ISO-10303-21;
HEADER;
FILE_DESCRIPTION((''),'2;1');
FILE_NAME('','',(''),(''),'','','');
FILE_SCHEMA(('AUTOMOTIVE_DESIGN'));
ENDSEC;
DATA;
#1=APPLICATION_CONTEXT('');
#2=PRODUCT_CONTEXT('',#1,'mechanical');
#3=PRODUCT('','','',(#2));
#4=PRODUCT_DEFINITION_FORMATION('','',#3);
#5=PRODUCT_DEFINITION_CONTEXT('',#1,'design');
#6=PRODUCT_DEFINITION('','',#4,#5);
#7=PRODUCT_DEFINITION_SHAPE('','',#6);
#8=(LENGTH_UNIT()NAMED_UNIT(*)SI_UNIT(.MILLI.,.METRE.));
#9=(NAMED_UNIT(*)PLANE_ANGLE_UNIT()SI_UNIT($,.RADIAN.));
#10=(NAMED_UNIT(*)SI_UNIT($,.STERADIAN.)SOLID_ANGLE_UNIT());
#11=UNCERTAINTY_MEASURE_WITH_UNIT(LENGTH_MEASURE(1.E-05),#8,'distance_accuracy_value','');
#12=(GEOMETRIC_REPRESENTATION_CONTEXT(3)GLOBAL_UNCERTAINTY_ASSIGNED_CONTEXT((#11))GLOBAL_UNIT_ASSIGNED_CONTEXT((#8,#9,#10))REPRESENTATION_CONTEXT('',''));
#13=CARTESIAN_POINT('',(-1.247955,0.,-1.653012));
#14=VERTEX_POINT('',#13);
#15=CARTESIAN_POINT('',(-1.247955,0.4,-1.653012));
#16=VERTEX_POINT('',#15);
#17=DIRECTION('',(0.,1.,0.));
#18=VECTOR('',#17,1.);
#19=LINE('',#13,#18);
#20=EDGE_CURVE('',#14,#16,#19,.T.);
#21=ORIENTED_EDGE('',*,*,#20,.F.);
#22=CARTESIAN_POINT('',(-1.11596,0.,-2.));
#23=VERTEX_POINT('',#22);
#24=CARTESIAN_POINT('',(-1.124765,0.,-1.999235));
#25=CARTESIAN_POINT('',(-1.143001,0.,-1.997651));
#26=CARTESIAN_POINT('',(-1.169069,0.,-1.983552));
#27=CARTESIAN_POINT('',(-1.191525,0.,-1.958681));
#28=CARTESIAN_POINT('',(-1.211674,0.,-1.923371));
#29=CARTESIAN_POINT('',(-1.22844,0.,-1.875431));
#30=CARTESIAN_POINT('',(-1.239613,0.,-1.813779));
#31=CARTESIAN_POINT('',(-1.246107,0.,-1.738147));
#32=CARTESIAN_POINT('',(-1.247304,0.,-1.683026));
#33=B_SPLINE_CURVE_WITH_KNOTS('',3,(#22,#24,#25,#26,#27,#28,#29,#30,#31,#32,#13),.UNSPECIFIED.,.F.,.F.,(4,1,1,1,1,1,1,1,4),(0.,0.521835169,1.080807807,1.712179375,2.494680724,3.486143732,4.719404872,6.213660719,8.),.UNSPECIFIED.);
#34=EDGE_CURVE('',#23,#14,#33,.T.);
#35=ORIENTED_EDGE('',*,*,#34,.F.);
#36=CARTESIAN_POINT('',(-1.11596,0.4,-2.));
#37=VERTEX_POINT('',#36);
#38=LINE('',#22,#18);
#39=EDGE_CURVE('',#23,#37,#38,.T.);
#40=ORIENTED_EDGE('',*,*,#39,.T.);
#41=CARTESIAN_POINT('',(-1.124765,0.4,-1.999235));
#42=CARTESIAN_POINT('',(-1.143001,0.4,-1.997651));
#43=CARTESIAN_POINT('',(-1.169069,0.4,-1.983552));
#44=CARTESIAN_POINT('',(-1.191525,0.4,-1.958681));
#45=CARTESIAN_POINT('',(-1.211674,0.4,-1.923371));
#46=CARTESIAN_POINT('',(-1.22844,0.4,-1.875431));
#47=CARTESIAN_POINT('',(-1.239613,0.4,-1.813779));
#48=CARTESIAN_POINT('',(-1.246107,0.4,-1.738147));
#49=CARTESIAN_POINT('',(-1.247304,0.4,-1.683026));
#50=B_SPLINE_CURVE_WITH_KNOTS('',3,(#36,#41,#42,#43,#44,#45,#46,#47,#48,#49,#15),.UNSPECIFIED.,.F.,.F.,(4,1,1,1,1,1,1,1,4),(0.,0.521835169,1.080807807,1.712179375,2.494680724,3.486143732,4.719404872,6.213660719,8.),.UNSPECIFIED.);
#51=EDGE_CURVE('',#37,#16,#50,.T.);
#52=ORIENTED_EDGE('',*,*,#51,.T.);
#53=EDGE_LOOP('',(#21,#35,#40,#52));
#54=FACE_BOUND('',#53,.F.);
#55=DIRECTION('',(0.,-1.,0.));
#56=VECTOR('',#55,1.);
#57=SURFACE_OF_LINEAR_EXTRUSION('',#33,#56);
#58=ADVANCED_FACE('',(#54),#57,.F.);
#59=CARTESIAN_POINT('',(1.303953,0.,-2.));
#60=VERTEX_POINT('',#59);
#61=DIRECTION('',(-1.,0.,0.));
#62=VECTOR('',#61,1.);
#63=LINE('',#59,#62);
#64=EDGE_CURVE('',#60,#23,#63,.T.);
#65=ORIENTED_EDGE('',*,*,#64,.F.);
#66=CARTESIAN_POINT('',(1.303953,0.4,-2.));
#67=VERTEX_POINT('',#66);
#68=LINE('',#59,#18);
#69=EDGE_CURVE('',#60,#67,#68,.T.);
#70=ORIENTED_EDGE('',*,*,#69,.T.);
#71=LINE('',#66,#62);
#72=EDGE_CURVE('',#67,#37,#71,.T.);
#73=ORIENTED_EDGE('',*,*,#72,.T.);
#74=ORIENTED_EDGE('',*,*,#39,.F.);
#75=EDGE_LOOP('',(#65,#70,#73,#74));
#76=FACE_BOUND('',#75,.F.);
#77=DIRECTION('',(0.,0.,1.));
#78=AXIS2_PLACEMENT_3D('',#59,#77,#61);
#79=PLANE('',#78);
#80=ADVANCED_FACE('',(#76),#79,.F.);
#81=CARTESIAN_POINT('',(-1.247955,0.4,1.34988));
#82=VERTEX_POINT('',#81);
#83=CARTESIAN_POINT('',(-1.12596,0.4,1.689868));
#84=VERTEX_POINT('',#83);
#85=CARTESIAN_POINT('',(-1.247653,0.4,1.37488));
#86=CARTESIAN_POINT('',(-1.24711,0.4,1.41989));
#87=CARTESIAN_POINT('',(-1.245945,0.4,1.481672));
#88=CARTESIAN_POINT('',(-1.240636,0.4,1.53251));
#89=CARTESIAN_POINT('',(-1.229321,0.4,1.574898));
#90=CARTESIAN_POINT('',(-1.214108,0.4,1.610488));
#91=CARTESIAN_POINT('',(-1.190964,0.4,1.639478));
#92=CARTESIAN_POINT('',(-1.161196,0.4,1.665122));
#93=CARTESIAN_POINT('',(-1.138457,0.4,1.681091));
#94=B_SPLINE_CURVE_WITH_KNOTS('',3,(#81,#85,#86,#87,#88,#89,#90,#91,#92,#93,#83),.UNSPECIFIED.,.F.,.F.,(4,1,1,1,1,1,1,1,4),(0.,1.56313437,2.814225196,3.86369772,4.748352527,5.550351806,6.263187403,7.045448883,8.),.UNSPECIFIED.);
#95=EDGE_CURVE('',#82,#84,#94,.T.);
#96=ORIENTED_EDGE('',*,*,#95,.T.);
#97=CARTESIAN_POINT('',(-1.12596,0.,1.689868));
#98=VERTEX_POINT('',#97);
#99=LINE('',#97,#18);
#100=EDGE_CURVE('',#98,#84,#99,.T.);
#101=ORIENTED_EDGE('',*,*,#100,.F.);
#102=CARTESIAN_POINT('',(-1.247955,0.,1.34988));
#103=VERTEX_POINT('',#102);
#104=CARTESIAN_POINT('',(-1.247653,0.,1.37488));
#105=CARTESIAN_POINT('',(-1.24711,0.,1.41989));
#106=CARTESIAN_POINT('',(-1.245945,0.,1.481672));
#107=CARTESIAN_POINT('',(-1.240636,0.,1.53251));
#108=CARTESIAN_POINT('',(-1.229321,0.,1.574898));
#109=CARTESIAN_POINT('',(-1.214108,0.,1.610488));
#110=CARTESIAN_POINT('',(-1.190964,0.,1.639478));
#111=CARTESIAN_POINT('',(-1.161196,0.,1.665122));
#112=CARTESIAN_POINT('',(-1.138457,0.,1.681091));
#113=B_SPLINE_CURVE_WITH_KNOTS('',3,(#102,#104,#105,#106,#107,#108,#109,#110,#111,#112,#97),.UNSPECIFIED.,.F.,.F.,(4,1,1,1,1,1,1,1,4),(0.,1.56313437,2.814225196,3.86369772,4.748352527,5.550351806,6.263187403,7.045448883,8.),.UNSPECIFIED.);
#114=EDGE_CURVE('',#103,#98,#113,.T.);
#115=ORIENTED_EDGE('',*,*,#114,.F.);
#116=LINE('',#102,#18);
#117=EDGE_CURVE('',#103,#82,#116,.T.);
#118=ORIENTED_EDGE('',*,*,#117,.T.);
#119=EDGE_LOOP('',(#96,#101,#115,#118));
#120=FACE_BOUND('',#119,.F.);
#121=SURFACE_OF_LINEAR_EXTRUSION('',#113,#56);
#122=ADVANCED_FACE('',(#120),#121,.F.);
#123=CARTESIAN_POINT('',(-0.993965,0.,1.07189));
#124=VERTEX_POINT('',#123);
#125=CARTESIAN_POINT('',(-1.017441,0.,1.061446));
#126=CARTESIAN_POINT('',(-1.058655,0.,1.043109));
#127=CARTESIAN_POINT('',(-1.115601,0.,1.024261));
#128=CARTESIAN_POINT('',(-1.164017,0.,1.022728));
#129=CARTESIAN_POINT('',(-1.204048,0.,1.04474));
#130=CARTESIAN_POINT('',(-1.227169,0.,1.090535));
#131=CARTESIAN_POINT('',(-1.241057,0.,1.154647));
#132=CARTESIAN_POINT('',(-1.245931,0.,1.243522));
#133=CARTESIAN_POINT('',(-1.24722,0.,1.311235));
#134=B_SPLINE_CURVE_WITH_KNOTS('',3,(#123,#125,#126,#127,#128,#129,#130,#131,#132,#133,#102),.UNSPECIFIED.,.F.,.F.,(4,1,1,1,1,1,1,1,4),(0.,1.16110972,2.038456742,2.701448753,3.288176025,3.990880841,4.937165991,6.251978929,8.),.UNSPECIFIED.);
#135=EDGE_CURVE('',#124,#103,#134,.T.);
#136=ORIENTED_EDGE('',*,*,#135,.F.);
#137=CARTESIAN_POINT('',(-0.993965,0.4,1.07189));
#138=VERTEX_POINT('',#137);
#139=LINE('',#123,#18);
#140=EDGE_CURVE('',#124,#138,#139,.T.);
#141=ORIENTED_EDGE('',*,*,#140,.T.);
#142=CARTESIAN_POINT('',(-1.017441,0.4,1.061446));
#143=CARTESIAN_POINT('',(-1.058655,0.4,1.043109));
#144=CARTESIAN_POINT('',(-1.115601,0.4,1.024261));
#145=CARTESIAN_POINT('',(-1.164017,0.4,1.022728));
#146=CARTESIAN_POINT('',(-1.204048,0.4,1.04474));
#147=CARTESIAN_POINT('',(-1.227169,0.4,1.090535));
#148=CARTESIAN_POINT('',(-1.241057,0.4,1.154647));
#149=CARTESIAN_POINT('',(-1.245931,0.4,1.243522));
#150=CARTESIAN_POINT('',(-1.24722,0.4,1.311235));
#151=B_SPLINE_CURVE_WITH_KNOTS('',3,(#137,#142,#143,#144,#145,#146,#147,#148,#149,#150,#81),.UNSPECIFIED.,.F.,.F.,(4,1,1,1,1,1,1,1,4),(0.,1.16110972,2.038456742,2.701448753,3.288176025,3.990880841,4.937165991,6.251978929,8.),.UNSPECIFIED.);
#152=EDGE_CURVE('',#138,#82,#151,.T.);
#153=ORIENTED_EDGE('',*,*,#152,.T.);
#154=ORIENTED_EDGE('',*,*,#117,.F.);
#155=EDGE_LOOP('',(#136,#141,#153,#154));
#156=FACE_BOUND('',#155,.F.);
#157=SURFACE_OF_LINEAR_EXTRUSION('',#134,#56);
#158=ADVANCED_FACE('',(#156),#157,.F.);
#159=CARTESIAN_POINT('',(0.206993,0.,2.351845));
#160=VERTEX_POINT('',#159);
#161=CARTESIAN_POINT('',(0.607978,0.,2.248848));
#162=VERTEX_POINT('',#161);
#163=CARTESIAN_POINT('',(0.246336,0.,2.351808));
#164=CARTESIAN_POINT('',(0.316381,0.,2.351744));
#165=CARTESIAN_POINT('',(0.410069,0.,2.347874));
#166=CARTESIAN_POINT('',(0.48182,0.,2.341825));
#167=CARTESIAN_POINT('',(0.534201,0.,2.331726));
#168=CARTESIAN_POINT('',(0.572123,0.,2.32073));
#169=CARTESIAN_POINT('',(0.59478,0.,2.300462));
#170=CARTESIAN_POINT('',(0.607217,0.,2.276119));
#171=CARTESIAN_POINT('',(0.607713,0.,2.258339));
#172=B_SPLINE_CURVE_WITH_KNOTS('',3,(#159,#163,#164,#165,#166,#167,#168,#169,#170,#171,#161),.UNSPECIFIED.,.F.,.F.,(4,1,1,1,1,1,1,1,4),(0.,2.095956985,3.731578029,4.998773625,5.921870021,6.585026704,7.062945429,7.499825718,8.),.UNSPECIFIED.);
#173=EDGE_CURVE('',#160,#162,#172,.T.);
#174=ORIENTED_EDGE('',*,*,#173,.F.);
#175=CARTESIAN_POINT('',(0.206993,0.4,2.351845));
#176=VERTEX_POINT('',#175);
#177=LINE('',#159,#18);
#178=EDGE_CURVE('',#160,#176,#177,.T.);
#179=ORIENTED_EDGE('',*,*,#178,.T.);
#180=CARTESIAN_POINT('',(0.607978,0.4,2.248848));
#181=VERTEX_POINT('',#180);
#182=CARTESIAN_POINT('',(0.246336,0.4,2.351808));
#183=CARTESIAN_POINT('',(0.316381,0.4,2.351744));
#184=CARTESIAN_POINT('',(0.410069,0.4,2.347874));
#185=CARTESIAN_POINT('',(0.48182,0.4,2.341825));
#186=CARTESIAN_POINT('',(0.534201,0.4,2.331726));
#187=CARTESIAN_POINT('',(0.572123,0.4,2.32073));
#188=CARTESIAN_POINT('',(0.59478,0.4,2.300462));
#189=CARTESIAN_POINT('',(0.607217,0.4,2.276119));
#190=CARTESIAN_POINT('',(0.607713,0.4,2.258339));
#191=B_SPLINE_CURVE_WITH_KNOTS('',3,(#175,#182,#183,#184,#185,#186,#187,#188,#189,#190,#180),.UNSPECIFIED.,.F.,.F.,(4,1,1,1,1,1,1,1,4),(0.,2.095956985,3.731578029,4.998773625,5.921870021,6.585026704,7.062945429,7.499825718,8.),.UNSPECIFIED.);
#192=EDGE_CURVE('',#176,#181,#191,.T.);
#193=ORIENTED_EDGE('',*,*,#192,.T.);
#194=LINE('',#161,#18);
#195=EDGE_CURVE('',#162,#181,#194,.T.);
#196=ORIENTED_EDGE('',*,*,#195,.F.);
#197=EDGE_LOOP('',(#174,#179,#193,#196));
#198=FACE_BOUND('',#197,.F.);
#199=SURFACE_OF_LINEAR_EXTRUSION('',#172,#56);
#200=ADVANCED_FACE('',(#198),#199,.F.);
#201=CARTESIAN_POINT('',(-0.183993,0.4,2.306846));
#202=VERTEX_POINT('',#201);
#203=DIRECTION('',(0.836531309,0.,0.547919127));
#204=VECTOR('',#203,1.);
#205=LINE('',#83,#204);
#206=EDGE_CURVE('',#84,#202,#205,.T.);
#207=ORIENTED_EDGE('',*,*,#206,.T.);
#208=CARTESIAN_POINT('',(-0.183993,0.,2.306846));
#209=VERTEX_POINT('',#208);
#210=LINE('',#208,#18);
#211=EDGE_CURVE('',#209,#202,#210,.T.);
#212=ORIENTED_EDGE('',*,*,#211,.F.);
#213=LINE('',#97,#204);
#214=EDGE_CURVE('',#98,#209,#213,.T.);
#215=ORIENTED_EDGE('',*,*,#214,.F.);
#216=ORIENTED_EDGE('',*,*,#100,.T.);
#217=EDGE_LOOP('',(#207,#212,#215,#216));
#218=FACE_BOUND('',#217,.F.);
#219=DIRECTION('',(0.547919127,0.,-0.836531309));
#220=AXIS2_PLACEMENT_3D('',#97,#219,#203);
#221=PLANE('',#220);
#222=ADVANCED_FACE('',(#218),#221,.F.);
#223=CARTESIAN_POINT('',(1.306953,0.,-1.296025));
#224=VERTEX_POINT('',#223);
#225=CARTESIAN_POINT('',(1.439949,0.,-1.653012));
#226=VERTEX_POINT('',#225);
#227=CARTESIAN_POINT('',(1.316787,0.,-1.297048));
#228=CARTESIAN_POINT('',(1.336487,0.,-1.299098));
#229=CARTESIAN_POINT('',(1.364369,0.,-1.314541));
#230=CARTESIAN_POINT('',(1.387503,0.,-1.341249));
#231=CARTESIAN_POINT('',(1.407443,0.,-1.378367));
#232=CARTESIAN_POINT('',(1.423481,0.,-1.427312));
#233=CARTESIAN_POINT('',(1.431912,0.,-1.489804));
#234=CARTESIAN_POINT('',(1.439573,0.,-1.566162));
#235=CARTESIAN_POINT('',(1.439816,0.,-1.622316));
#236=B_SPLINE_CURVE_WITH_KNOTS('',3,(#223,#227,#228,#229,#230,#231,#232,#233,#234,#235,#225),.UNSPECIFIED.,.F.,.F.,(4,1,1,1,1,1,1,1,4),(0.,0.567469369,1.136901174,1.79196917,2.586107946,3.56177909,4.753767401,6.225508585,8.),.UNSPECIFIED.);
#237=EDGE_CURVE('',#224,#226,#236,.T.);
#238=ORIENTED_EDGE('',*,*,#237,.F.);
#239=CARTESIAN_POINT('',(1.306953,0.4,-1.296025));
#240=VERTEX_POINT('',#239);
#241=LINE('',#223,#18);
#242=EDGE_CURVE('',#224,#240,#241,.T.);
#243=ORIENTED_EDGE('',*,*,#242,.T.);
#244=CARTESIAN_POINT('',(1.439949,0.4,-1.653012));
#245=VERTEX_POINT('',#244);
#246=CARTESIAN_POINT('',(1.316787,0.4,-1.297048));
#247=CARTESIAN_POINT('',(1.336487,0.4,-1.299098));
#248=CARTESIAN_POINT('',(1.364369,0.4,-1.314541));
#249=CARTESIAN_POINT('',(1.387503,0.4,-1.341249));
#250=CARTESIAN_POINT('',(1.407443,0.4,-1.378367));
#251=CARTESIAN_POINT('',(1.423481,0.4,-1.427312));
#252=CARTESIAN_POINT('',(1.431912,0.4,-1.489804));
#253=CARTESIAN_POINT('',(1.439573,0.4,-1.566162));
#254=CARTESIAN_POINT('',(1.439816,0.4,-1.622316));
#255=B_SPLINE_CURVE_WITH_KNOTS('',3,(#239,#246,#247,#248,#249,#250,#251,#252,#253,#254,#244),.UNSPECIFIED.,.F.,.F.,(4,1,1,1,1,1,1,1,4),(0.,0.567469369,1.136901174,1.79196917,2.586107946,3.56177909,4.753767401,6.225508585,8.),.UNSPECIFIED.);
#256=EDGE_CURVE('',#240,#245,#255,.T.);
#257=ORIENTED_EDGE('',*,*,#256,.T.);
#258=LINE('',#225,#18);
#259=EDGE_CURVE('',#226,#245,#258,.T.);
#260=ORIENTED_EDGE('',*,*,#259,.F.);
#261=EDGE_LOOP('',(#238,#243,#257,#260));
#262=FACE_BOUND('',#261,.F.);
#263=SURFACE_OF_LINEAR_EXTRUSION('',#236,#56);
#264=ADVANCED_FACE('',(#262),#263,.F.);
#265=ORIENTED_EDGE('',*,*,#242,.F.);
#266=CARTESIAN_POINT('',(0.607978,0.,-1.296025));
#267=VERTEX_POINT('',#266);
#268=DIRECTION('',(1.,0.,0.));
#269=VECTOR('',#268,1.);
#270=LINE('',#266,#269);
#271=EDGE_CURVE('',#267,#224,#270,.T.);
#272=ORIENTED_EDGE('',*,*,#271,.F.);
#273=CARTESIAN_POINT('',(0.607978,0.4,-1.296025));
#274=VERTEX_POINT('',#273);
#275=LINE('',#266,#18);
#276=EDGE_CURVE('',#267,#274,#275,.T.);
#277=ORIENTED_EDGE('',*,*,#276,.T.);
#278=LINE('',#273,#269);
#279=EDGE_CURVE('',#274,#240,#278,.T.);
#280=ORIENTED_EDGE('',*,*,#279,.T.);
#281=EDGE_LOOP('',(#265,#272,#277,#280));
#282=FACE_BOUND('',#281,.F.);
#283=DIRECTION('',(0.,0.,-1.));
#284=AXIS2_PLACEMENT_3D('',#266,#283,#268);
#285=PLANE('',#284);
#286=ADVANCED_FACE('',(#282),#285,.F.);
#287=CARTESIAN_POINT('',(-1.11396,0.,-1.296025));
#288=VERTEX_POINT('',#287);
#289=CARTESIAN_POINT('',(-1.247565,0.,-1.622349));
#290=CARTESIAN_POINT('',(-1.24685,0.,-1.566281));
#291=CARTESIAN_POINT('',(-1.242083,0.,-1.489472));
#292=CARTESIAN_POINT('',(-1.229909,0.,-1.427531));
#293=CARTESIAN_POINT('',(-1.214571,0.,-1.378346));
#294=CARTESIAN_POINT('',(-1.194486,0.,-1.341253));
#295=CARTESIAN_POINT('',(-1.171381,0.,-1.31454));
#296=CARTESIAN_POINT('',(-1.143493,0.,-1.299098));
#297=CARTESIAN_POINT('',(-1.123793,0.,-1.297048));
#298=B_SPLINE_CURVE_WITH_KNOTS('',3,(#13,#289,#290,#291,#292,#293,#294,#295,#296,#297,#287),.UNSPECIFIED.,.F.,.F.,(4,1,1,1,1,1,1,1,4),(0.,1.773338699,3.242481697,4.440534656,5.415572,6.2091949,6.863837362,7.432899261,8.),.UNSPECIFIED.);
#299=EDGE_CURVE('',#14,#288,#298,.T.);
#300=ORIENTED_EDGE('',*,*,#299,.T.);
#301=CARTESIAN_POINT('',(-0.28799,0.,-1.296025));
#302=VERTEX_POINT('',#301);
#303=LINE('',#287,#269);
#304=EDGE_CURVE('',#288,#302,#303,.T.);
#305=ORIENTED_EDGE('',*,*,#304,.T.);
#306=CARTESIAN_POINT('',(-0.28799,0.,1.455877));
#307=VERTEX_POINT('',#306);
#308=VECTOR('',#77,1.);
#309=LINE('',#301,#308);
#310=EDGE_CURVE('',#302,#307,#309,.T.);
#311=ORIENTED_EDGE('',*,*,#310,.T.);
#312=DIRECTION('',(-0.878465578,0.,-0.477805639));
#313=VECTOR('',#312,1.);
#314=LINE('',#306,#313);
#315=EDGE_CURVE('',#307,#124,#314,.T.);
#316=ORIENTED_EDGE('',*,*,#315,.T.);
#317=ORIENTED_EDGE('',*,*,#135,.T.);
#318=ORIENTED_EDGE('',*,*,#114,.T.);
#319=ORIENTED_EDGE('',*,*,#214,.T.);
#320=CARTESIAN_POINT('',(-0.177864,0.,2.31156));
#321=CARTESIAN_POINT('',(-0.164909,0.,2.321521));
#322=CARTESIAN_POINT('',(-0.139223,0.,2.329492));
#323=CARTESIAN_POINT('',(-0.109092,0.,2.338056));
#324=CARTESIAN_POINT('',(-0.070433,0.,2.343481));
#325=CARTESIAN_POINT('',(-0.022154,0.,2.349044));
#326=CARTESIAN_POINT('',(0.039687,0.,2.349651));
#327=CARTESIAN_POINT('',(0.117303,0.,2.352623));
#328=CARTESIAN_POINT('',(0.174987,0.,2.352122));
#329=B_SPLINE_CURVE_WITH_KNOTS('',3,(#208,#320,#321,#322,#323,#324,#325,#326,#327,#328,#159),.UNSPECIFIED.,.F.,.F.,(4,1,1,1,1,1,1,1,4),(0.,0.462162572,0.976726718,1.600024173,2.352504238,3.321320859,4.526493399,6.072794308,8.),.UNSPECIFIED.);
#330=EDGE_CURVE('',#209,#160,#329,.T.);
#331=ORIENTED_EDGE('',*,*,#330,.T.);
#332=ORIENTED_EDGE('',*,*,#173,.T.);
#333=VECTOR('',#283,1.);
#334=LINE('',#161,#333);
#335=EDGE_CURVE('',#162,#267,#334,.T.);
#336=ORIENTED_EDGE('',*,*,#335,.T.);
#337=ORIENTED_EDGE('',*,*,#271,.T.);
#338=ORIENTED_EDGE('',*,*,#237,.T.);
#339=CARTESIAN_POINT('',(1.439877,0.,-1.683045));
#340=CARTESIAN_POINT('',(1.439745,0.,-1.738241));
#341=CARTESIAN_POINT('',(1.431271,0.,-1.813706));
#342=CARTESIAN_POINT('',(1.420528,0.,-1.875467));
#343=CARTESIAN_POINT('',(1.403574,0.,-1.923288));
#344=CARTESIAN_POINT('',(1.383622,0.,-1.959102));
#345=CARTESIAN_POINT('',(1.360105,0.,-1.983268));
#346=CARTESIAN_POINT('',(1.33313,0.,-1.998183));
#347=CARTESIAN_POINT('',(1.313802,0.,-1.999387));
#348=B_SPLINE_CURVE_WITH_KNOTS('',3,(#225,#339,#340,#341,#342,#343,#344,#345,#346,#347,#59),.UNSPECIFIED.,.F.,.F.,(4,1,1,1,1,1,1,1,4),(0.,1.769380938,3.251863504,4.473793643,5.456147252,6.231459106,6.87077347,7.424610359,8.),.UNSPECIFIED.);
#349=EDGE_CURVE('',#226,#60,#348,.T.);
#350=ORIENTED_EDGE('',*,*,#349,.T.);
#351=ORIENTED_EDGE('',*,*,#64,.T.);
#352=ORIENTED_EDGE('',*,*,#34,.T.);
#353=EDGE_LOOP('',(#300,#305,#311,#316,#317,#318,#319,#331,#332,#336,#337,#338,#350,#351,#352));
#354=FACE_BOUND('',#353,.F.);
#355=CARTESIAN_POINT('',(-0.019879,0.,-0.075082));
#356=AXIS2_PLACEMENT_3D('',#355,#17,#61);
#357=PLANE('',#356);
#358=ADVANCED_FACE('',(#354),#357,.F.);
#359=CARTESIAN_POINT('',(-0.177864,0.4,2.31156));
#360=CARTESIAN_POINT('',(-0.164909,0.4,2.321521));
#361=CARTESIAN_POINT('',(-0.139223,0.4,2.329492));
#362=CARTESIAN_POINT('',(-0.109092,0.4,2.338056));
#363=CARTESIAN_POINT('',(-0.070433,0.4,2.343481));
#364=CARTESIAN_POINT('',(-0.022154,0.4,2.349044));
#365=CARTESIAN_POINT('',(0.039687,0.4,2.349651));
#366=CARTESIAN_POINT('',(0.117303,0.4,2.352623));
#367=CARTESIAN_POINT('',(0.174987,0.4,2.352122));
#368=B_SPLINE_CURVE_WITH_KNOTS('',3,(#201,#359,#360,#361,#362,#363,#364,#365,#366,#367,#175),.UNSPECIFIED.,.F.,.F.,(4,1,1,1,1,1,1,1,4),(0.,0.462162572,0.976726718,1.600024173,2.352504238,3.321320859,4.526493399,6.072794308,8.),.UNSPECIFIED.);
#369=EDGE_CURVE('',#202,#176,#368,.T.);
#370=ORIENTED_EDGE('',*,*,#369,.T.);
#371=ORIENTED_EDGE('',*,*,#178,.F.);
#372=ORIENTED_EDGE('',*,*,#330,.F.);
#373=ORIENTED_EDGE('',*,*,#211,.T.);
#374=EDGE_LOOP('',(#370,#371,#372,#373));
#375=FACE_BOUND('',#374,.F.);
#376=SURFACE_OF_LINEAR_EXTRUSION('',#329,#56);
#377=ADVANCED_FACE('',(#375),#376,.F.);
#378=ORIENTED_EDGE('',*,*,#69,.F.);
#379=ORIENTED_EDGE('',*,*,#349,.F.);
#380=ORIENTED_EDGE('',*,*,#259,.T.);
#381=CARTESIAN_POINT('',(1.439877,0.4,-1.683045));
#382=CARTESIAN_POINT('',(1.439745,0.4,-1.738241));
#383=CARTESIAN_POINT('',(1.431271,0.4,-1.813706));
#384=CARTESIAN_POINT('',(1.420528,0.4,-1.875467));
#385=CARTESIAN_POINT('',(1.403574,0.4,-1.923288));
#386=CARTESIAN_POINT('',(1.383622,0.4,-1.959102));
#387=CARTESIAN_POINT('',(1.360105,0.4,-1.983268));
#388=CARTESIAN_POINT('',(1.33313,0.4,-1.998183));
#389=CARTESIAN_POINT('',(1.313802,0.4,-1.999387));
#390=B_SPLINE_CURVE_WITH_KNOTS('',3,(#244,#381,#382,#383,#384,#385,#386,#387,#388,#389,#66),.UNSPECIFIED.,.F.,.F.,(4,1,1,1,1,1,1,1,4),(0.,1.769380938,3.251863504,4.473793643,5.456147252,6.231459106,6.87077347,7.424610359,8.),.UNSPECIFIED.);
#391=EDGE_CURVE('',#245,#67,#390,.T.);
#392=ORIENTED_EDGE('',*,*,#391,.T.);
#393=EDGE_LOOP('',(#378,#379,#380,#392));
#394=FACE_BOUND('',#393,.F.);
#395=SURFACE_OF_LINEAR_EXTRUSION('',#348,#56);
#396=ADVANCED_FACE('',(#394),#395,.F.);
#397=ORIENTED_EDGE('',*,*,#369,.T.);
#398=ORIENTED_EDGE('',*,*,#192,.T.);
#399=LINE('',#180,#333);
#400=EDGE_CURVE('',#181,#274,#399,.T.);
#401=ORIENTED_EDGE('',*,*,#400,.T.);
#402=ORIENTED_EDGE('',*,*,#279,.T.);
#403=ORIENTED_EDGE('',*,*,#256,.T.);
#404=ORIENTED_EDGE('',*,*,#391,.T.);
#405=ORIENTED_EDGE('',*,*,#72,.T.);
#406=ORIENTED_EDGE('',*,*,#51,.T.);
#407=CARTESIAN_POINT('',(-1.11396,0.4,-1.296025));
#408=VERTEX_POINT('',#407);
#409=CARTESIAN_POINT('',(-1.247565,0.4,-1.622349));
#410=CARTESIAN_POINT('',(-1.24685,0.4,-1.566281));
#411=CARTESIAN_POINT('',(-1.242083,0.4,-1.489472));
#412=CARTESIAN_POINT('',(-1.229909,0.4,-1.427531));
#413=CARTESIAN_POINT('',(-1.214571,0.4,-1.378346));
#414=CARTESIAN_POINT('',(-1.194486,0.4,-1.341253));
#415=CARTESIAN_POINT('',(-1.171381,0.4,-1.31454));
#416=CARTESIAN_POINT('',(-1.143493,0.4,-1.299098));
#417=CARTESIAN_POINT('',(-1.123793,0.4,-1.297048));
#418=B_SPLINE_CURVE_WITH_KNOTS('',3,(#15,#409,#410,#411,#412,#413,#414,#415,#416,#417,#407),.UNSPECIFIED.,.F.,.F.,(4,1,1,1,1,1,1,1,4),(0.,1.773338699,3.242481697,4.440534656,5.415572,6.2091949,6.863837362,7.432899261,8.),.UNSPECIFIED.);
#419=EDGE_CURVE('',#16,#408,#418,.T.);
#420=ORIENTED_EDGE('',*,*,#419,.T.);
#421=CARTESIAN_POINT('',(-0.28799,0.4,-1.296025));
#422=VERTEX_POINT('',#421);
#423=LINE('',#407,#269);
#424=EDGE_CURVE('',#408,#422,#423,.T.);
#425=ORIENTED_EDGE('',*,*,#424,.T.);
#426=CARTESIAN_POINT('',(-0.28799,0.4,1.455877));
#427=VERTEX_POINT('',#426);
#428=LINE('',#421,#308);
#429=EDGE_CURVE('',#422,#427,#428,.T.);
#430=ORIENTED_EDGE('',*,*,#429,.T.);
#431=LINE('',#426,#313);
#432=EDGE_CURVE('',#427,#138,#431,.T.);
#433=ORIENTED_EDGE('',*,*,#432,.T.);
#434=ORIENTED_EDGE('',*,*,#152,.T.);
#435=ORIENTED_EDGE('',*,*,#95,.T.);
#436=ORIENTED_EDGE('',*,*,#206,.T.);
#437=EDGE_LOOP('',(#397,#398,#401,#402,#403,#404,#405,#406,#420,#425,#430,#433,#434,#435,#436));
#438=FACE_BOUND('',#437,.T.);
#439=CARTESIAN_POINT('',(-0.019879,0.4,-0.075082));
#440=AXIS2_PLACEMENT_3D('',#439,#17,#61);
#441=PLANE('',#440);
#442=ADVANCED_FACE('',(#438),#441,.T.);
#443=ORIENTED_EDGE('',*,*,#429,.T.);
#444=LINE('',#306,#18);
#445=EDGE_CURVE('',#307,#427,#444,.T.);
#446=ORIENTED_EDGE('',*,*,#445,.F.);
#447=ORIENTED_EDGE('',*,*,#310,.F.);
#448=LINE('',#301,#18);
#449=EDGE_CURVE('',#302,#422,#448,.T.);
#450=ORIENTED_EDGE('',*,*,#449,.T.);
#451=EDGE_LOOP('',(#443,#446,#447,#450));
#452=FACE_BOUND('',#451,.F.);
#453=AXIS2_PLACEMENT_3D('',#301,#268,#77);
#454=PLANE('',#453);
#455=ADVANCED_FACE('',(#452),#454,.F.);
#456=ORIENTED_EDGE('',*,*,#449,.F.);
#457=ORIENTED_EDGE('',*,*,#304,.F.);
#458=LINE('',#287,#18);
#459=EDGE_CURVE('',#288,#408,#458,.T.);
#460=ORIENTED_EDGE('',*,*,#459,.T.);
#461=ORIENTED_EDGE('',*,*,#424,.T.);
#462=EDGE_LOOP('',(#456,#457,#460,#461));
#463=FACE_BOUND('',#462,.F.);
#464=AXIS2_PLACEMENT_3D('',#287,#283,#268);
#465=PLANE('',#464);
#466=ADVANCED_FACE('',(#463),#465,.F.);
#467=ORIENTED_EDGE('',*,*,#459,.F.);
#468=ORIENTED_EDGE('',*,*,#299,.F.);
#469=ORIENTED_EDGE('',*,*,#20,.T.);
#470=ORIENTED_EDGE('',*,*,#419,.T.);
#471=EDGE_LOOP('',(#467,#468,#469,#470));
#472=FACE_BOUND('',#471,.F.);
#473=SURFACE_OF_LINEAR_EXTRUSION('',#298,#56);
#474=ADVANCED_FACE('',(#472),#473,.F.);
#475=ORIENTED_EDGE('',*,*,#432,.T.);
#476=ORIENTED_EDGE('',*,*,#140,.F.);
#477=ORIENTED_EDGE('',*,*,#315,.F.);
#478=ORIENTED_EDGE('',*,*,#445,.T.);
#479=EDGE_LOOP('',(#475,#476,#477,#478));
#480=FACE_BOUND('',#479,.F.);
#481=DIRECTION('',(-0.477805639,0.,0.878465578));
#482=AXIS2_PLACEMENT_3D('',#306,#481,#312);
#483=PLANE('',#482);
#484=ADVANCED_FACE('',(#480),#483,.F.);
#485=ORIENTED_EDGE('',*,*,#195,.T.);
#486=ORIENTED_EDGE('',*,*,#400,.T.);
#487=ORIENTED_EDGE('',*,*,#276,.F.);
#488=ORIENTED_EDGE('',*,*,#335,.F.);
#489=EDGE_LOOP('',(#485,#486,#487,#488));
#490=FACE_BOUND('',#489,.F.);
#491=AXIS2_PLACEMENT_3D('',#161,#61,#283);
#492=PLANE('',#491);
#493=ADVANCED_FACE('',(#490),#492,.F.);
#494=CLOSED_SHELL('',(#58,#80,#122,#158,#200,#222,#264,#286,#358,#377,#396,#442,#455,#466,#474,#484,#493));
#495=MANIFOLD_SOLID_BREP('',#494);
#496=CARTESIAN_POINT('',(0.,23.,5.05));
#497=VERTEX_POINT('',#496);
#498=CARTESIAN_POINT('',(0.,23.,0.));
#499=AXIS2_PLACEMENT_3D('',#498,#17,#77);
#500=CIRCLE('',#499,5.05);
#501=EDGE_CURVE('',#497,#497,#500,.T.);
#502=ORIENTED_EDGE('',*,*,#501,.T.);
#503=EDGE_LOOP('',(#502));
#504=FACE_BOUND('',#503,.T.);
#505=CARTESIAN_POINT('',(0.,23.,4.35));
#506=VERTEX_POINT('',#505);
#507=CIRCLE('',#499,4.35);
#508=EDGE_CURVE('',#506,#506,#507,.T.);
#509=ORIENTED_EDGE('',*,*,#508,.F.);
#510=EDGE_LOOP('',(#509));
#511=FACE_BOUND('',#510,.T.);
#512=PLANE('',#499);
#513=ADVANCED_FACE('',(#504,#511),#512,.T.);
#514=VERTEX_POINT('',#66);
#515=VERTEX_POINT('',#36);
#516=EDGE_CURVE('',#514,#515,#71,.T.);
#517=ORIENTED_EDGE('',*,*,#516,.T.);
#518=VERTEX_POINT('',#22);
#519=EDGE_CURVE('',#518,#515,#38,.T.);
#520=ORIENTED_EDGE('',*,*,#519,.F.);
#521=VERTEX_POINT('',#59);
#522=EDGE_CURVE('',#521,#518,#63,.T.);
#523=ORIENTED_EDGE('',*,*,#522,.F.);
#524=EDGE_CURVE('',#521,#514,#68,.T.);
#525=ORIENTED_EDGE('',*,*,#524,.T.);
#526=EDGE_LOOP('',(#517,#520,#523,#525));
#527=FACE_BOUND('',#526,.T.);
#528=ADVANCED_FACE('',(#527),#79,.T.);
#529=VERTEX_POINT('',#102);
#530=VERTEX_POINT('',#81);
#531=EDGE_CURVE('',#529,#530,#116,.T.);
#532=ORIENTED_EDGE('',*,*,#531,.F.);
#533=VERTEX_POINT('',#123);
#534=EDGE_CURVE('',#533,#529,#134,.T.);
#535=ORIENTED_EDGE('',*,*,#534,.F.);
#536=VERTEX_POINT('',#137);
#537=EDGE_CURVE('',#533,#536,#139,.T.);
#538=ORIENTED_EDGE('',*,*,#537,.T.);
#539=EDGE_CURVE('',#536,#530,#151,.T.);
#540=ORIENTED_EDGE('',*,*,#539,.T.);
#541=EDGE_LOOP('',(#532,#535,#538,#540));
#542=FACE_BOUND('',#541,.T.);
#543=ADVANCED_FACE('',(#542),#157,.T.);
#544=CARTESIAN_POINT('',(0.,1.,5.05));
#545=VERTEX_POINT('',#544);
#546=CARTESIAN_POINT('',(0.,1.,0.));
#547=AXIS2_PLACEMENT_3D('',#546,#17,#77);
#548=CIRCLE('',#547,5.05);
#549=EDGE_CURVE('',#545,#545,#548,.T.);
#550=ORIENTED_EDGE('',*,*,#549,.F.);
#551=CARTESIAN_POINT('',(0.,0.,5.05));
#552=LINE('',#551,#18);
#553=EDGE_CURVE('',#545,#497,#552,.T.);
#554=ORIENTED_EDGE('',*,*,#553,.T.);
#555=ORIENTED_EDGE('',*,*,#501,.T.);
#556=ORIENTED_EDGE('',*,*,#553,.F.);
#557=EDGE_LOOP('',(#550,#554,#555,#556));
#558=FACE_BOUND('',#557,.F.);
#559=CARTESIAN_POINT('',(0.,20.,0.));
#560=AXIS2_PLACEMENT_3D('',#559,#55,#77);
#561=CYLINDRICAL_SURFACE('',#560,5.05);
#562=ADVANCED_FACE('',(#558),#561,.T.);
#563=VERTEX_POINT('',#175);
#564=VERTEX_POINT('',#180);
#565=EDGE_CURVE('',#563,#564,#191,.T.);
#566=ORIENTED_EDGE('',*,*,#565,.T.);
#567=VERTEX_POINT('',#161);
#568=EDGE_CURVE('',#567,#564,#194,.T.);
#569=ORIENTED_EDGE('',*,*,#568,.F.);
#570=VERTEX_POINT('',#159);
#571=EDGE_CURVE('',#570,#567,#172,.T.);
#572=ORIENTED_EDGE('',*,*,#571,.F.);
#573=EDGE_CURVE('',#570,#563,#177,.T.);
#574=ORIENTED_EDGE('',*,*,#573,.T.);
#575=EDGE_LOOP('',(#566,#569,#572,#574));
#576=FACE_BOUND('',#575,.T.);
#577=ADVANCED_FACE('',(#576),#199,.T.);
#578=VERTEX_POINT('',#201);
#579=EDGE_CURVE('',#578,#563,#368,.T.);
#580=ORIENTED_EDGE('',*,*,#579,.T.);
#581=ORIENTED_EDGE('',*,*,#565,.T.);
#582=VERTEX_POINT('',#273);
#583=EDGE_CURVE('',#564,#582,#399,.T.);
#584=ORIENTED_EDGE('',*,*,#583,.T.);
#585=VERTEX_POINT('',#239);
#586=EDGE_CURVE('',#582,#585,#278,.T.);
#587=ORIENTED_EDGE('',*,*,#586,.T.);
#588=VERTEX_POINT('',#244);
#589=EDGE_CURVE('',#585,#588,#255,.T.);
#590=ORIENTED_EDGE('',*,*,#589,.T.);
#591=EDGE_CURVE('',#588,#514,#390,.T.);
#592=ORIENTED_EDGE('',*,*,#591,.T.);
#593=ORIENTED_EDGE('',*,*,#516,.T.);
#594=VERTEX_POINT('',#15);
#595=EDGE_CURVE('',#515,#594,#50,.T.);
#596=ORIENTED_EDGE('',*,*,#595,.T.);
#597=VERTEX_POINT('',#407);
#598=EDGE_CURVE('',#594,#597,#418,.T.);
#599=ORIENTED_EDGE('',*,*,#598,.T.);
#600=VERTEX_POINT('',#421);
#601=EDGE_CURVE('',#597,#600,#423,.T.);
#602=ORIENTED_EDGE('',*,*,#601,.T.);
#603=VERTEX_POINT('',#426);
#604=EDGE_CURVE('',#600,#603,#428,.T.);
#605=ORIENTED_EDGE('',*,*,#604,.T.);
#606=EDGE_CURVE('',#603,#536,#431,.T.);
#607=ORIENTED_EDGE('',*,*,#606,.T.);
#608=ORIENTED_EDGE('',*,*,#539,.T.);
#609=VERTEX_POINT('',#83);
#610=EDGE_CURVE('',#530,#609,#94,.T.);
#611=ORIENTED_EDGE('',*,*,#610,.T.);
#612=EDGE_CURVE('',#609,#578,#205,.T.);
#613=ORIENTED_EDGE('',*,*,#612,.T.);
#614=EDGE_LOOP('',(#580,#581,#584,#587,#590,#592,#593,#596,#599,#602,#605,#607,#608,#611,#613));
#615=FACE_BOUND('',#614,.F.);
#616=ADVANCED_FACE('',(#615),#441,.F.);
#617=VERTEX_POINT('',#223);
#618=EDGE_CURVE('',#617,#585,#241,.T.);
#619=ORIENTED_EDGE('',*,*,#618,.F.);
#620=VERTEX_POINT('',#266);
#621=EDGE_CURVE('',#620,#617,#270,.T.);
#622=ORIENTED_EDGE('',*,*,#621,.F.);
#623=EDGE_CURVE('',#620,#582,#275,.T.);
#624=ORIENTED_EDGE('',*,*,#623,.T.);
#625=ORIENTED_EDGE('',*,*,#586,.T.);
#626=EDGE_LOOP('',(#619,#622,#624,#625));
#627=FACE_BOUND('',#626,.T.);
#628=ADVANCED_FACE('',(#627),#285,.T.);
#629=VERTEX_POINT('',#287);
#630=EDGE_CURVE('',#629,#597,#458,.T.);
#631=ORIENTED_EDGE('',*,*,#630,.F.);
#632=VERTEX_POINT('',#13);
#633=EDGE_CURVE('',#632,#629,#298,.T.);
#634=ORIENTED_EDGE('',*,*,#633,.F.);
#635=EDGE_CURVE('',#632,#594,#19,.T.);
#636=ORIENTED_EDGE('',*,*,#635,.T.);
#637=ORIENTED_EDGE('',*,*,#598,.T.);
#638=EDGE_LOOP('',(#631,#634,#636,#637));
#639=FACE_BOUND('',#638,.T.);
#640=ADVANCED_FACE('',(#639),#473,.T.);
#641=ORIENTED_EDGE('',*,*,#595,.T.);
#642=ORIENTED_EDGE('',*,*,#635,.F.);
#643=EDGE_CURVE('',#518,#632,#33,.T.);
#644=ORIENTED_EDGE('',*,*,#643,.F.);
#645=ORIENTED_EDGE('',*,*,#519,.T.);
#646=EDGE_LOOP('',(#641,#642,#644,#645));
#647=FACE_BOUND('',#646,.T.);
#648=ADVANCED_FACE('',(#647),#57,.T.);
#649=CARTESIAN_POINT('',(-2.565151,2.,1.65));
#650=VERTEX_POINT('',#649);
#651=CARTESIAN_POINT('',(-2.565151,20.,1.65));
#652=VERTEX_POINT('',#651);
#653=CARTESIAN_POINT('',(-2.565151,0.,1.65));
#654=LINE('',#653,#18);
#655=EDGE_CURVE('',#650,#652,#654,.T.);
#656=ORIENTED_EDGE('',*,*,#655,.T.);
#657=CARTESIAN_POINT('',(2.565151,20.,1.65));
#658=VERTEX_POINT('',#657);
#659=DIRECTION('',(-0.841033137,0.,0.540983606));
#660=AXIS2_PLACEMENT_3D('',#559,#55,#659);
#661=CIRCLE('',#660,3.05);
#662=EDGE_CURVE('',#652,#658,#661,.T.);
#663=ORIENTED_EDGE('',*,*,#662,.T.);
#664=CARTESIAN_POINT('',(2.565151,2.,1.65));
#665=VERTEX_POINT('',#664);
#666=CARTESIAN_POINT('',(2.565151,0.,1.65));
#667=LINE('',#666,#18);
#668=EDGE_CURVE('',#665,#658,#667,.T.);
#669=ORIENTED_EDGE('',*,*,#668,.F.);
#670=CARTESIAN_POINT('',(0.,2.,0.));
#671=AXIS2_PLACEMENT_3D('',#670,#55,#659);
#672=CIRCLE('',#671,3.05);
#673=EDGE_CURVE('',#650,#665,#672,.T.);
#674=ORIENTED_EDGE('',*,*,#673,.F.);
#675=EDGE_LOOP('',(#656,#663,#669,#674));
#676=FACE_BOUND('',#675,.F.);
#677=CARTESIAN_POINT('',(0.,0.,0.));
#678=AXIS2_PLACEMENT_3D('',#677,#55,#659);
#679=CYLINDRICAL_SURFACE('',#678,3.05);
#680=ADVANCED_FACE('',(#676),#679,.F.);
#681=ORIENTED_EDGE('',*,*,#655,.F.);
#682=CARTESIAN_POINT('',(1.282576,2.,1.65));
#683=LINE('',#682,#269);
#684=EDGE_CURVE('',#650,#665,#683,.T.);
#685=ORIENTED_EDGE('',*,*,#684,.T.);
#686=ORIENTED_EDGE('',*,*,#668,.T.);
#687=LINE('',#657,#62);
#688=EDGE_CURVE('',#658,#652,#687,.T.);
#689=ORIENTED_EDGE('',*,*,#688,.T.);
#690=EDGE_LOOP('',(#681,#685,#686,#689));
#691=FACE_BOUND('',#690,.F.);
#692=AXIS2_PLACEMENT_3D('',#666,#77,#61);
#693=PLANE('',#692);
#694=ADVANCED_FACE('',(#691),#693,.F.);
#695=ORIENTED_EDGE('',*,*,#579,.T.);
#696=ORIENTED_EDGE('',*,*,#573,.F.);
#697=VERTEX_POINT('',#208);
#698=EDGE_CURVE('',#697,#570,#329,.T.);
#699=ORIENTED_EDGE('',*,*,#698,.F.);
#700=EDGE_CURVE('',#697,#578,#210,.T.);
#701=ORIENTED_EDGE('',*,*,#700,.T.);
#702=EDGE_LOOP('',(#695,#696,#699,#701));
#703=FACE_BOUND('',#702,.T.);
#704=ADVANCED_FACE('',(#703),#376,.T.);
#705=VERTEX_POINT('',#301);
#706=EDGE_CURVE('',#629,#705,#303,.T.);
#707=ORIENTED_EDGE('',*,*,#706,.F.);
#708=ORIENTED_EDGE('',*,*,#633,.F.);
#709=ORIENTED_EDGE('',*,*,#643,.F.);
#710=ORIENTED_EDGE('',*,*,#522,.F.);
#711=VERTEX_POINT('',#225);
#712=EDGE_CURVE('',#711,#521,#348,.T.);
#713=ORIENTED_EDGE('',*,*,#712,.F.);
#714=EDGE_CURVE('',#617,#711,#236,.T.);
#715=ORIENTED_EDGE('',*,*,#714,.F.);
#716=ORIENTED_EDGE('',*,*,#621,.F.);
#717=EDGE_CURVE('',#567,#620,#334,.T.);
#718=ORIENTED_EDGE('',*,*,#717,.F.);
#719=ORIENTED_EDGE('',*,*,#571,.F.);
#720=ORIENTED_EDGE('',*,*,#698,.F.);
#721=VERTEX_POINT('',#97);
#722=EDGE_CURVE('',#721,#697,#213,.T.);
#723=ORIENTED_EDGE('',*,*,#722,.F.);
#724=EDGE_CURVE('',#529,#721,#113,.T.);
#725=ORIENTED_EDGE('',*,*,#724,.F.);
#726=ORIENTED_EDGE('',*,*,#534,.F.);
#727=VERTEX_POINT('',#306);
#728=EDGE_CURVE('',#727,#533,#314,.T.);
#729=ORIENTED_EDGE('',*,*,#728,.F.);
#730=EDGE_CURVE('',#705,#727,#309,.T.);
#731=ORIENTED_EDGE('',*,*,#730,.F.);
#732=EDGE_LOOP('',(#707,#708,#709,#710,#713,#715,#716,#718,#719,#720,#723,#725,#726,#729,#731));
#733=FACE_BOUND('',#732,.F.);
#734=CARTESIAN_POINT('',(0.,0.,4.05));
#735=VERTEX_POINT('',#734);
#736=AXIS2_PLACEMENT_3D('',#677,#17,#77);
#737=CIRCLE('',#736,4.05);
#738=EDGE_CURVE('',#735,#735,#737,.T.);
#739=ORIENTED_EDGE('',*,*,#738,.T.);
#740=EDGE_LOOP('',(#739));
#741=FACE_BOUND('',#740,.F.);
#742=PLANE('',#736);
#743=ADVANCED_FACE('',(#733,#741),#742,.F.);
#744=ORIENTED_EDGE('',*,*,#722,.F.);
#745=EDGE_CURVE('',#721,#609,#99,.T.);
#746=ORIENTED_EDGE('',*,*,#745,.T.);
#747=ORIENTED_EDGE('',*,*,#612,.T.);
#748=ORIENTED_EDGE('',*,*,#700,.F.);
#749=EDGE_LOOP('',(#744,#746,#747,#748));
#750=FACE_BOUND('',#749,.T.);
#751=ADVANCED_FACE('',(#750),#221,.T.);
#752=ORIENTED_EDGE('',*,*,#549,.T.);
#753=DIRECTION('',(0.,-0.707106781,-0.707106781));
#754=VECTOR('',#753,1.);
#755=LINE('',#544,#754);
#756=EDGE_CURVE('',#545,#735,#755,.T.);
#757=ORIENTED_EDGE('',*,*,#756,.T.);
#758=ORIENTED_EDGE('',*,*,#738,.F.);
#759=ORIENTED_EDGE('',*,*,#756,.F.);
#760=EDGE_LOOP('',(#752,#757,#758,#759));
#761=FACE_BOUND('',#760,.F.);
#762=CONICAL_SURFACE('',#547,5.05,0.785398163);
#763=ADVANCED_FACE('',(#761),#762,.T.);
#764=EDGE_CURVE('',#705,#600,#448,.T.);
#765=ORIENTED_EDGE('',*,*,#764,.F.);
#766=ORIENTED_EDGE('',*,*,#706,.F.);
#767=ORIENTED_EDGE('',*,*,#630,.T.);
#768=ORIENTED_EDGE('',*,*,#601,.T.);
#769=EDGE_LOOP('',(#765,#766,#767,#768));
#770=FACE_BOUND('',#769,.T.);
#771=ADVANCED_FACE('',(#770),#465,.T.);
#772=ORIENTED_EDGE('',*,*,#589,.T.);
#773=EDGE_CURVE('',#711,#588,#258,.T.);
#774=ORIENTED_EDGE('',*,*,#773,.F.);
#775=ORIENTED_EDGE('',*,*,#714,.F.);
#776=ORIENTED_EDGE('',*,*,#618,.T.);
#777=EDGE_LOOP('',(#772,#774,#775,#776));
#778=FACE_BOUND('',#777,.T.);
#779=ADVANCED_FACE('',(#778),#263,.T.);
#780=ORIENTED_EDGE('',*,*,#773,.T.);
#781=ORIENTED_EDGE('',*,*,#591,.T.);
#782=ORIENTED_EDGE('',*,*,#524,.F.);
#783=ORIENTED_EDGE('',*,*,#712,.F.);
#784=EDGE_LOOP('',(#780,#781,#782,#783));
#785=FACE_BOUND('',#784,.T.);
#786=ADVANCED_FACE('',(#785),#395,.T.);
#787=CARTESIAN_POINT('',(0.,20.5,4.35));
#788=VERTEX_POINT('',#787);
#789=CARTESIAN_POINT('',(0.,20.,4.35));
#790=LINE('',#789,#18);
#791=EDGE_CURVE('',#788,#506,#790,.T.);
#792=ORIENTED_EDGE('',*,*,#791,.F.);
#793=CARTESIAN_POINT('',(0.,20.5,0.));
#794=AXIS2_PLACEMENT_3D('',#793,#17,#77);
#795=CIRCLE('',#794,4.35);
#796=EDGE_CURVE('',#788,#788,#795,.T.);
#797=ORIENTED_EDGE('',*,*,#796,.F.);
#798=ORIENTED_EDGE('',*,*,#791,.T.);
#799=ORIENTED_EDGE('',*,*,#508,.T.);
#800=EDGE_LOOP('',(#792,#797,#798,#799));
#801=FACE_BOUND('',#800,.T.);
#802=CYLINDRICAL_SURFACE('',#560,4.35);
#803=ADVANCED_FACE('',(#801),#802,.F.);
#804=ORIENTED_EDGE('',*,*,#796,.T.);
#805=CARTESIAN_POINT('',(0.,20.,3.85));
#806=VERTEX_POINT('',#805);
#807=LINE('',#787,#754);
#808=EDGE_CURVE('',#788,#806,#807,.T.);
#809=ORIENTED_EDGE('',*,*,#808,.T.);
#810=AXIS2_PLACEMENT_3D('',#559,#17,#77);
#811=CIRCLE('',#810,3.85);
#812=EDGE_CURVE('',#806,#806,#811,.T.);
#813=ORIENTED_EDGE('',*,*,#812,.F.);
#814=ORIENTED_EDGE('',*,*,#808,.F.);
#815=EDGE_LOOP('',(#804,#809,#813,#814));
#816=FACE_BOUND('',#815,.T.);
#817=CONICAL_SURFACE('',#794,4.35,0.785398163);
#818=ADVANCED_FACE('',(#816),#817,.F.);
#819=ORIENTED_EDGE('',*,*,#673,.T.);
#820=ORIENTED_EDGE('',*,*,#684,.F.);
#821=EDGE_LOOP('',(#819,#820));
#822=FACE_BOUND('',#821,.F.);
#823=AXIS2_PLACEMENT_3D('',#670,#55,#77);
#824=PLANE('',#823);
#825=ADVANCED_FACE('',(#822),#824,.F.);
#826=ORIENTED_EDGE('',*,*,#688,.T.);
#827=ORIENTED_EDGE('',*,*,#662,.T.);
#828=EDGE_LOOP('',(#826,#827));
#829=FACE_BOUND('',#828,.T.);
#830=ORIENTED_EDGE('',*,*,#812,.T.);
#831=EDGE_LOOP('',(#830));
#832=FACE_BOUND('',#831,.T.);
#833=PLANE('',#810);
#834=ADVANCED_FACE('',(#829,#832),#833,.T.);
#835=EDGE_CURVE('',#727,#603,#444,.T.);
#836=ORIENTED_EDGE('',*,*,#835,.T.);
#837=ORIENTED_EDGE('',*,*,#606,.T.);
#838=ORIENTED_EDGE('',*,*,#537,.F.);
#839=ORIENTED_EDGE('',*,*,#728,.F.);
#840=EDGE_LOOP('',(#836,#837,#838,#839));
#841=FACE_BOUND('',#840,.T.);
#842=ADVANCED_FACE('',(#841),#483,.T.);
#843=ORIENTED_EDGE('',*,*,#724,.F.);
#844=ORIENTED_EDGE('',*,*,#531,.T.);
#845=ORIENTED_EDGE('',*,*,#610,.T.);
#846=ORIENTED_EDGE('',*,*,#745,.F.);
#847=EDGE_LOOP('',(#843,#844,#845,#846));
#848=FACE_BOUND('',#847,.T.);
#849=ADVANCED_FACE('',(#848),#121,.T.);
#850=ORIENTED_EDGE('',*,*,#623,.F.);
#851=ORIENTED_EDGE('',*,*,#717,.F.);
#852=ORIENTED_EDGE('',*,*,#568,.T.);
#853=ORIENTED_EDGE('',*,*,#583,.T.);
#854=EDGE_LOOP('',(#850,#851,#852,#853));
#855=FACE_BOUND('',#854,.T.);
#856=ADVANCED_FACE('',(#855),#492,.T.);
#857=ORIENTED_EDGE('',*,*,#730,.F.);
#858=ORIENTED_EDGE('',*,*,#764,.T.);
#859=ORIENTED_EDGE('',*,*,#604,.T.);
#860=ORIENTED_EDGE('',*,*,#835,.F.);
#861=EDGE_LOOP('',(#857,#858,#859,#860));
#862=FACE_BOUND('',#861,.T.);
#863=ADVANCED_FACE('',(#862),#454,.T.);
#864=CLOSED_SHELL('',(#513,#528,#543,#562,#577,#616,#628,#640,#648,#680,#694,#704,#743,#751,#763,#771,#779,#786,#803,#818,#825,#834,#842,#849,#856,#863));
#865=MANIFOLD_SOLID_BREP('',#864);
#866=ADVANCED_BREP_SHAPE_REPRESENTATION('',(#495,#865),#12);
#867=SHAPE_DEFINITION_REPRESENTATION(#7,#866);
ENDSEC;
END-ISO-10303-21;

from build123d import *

# Parameters (mm, degrees)
SKETCH1_R           = 5.05
BOSS_EXTRUDE1_DEPTH = 20
SKETCH2_R           = 5.05
BOSS_EXTRUDE2_DEPTH = 2
SKETCH4_R           = 5.05
SKETCH4_R_2         = 4.35
BOSS_EXTRUDE3_DEPTH = 3
CHAMFER1_SIZE       = 1
CHAMFER2_SIZE       = 0.5
CUT_EXTRUDE1_DEPTH  = 0.4
BOSS_EXTRUDE4_DEPTH = 0.4


with BuildPart() as part:
    # Sketch1 → Boss-Extrude1 (new body)
    with BuildSketch(Plane(origin=(0, 0, 0), x_dir=(1, 0, 0), z_dir=(0, 1, 0))):
        Circle(SKETCH1_R)
        with BuildLine():
            Line((2.565151068, -1.65), (-2.565151068, -1.65))
            ThreePointArc((-2.565151068, -1.65), (0, 3.05), (2.565151068, -1.65))
        make_face(mode=Mode.SUBTRACT)
    extrude(amount=BOSS_EXTRUDE1_DEPTH)

    # Sketch2 → Boss-Extrude2 (add)
    with BuildSketch(Plane.XZ):
        Circle(SKETCH2_R)
    extrude(amount=-BOSS_EXTRUDE2_DEPTH)

    # Sketch4 → Boss-Extrude3 (add)
    with BuildSketch(Plane(origin=(0, 20, 0), x_dir=(1, 0, 0), z_dir=(0, 1, 0))):
        Circle(SKETCH4_R)
        Circle(SKETCH4_R_2, mode=Mode.SUBTRACT)
    extrude(amount=BOSS_EXTRUDE3_DEPTH)

    # Chamfer1
    chamfer1_edges = [part.edges().sort_by_distance(p)[0] for p in [
        (-5.05, 0, 0),
    ]]
    chamfer(chamfer1_edges, length=CHAMFER1_SIZE)

    # Chamfer2
    chamfer2_edges = [part.edges().sort_by_distance(p)[0] for p in [
        (-4.35, 20, 0),
    ]]
    chamfer(chamfer2_edges, length=CHAMFER2_SIZE)

    # Sketch5 → Cut-Extrude1 (cut)
    with BuildSketch(Plane.XZ):
        with BuildLine():
            add(Edge.make_bspline(
                [(1.439948587, -1.653012389), (1.439876699, -1.683045128), (1.43974458, -1.738240911), (1.431271471, -1.813705895), (1.420527775, -1.875466606), (1.403574072, -1.923288418), (1.383622282, -1.959101708), (1.360105213, -1.983267515), (1.333129744, -1.998183394), (1.313801842, -1.999386809), (1.303953443, -2)],
                knots=[0, 0, 0, 0, 1.769380938, 3.251863504, 4.473793643, 5.456147252, 6.231459106, 6.87077347, 7.424610359, 8, 8, 8, 8], degree=3))
            Line((1.303953443, -2), (-1.115960155, -2))
            add(Edge.make_bspline(
                [(-1.115960155, -2), (-1.124764856, -1.999235199), (-1.143000862, -1.997651168), (-1.169069324, -1.98355213), (-1.191525204, -1.958680582), (-1.211674261, -1.923370629), (-1.22844035, -1.875430661), (-1.2396129, -1.81377917), (-1.2461065, -1.738146636), (-1.247303601, -1.683026326), (-1.247955442, -1.653012389)],
                knots=[0, 0, 0, 0, 0.521835169, 1.080807807, 1.712179375, 2.494680724, 3.486143732, 4.719404872, 6.213660719, 8, 8, 8, 8], degree=3))
            add(Edge.make_bspline(
                [(-1.247955442, -1.653012389), (-1.247564606, -1.622348678), (-1.246849977, -1.56628126), (-1.242082904, -1.489472136), (-1.229908593, -1.427530805), (-1.214570878, -1.378346332), (-1.19448558, -1.341252685), (-1.171381331, -1.314540094), (-1.143493064, -1.299098496), (-1.123793171, -1.297048409), (-1.113960226, -1.296025135)],
                knots=[0, 0, 0, 0, 1.773338699, 3.242481697, 4.440534656, 5.415572, 6.2091949, 6.863837362, 7.432899261, 8, 8, 8, 8], degree=3))
            Line((-1.113960226, -1.296025135), (-0.287989717, -1.296025135))
            Line((-0.287989717, -1.296025135), (-0.287989717, 1.455876608))
            Line((-0.287989717, 1.455876608), (-0.993964511, 1.071890319))
            add(Edge.make_bspline(
                [(-0.993964511, 1.071890319), (-1.017440507, 1.061445685), (-1.058655219, 1.043108974), (-1.115600787, 1.024261243), (-1.164016876, 1.022727864), (-1.204048063, 1.044740206), (-1.227168973, 1.090535397), (-1.241056947, 1.154646882), (-1.245930838, 1.243521995), (-1.247219803, 1.311235138), (-1.247955442, 1.349880393)],
                knots=[0, 0, 0, 0, 1.16110972, 2.038456742, 2.701448753, 3.288176025, 3.990880841, 4.937165991, 6.251978929, 8, 8, 8, 8], degree=3))
            add(Edge.make_bspline(
                [(-1.247955442, 1.349880393), (-1.247653425, 1.374880402), (-1.247109683, 1.419889746), (-1.245945241, 1.481671813), (-1.240636397, 1.532510166), (-1.22932079, 1.574897869), (-1.214108207, 1.610487858), (-1.190963524, 1.639477582), (-1.161196377, 1.665121533), (-1.138457223, 1.681091287), (-1.125959798, 1.689868254)],
                knots=[0, 0, 0, 0, 1.56313437, 2.814225196, 3.86369772, 4.748352527, 5.550351806, 6.263187403, 7.045448883, 8, 8, 8, 8], degree=3))
            Line((-1.125959798, 1.689868254), (-0.183993431, 2.306846225))
            add(Edge.make_bspline(
                [(-0.183993431, 2.306846225), (-0.177863774, 2.311559679), (-0.16490946, 2.321521017), (-0.139222649, 2.329492175), (-0.109092066, 2.338056382), (-0.070433284, 2.34348131), (-0.022153707, 2.34904437), (0.039686671, 2.349651098), (0.117302801, 2.352623049), (0.17498744, 2.352122396), (0.206992609, 2.351844618)],
                knots=[0, 0, 0, 0, 0.462162572, 0.976726718, 1.600024173, 2.352504238, 3.321320859, 4.526493399, 6.072794308, 8, 8, 8, 8], degree=3))
            add(Edge.make_bspline(
                [(0.206992609, 2.351844618), (0.246335885, 2.351808308), (0.316381456, 2.351743662), (0.410069056, 2.347873639), (0.481820359, 2.341824657), (0.534201311, 2.331725803), (0.572123093, 2.320729809), (0.59477989, 2.300462138), (0.607217242, 2.276119035), (0.607713437, 2.258338867), (0.607978292, 2.248848296)],
                knots=[0, 0, 0, 0, 2.095956985, 3.731578029, 4.998773625, 5.921870021, 6.585026704, 7.062945429, 7.499825718, 8, 8, 8, 8], degree=3))
            Line((0.607978292, 2.248848296), (0.607978292, -1.296025135))
            Line((0.607978292, -1.296025135), (1.306953335, -1.296025135))
            add(Edge.make_bspline(
                [(1.306953335, -1.296025135), (1.316786669, -1.297048343), (1.336487341, -1.299098296), (1.364369456, -1.314540952), (1.387502528, -1.341248585), (1.407443488, -1.378367057), (1.42348129, -1.427311655), (1.431911749, -1.489804249), (1.43957322, -1.566161665), (1.43981592, -1.622316445), (1.439948587, -1.653012389)],
                knots=[0, 0, 0, 0, 0.567469369, 1.136901174, 1.79196917, 2.586107946, 3.56177909, 4.753767401, 6.225508585, 8, 8, 8, 8], degree=3))
        make_face()
    extrude(amount=-CUT_EXTRUDE1_DEPTH, mode=Mode.SUBTRACT)


with BuildPart() as body_2:
    # Sketch5<2> → Boss-Extrude4 (new body)
    with BuildSketch(Plane.XZ):
        with BuildLine():
            add(Edge.make_bspline(
                [(1.439948587, -1.653012389), (1.439876699, -1.683045128), (1.43974458, -1.738240911), (1.431271471, -1.813705895), (1.420527775, -1.875466606), (1.403574072, -1.923288418), (1.383622282, -1.959101708), (1.360105213, -1.983267515), (1.333129744, -1.998183394), (1.313801842, -1.999386809), (1.303953443, -2)],
                knots=[0, 0, 0, 0, 1.769380938, 3.251863504, 4.473793643, 5.456147252, 6.231459106, 6.87077347, 7.424610359, 8, 8, 8, 8], degree=3))
            Line((1.303953443, -2), (-1.115960155, -2))
            add(Edge.make_bspline(
                [(-1.115960155, -2), (-1.124764856, -1.999235199), (-1.143000862, -1.997651168), (-1.169069324, -1.98355213), (-1.191525204, -1.958680582), (-1.211674261, -1.923370629), (-1.22844035, -1.875430661), (-1.2396129, -1.81377917), (-1.2461065, -1.738146636), (-1.247303601, -1.683026326), (-1.247955442, -1.653012389)],
                knots=[0, 0, 0, 0, 0.521835169, 1.080807807, 1.712179375, 2.494680724, 3.486143732, 4.719404872, 6.213660719, 8, 8, 8, 8], degree=3))
            add(Edge.make_bspline(
                [(-1.247955442, -1.653012389), (-1.247564606, -1.622348678), (-1.246849977, -1.56628126), (-1.242082904, -1.489472136), (-1.229908593, -1.427530805), (-1.214570878, -1.378346332), (-1.19448558, -1.341252685), (-1.171381331, -1.314540094), (-1.143493064, -1.299098496), (-1.123793171, -1.297048409), (-1.113960226, -1.296025135)],
                knots=[0, 0, 0, 0, 1.773338699, 3.242481697, 4.440534656, 5.415572, 6.2091949, 6.863837362, 7.432899261, 8, 8, 8, 8], degree=3))
            Line((-1.113960226, -1.296025135), (-0.287989717, -1.296025135))
            Line((-0.287989717, -1.296025135), (-0.287989717, 1.455876608))
            Line((-0.287989717, 1.455876608), (-0.993964511, 1.071890319))
            add(Edge.make_bspline(
                [(-0.993964511, 1.071890319), (-1.017440507, 1.061445685), (-1.058655219, 1.043108974), (-1.115600787, 1.024261243), (-1.164016876, 1.022727864), (-1.204048063, 1.044740206), (-1.227168973, 1.090535397), (-1.241056947, 1.154646882), (-1.245930838, 1.243521995), (-1.247219803, 1.311235138), (-1.247955442, 1.349880393)],
                knots=[0, 0, 0, 0, 1.16110972, 2.038456742, 2.701448753, 3.288176025, 3.990880841, 4.937165991, 6.251978929, 8, 8, 8, 8], degree=3))
            add(Edge.make_bspline(
                [(-1.247955442, 1.349880393), (-1.247653425, 1.374880402), (-1.247109683, 1.419889746), (-1.245945241, 1.481671813), (-1.240636397, 1.532510166), (-1.22932079, 1.574897869), (-1.214108207, 1.610487858), (-1.190963524, 1.639477582), (-1.161196377, 1.665121533), (-1.138457223, 1.681091287), (-1.125959798, 1.689868254)],
                knots=[0, 0, 0, 0, 1.56313437, 2.814225196, 3.86369772, 4.748352527, 5.550351806, 6.263187403, 7.045448883, 8, 8, 8, 8], degree=3))
            Line((-1.125959798, 1.689868254), (-0.183993431, 2.306846225))
            add(Edge.make_bspline(
                [(-0.183993431, 2.306846225), (-0.177863774, 2.311559679), (-0.16490946, 2.321521017), (-0.139222649, 2.329492175), (-0.109092066, 2.338056382), (-0.070433284, 2.34348131), (-0.022153707, 2.34904437), (0.039686671, 2.349651098), (0.117302801, 2.352623049), (0.17498744, 2.352122396), (0.206992609, 2.351844618)],
                knots=[0, 0, 0, 0, 0.462162572, 0.976726718, 1.600024173, 2.352504238, 3.321320859, 4.526493399, 6.072794308, 8, 8, 8, 8], degree=3))
            add(Edge.make_bspline(
                [(0.206992609, 2.351844618), (0.246335885, 2.351808308), (0.316381456, 2.351743662), (0.410069056, 2.347873639), (0.481820359, 2.341824657), (0.534201311, 2.331725803), (0.572123093, 2.320729809), (0.59477989, 2.300462138), (0.607217242, 2.276119035), (0.607713437, 2.258338867), (0.607978292, 2.248848296)],
                knots=[0, 0, 0, 0, 2.095956985, 3.731578029, 4.998773625, 5.921870021, 6.585026704, 7.062945429, 7.499825718, 8, 8, 8, 8], degree=3))
            Line((0.607978292, 2.248848296), (0.607978292, -1.296025135))
            Line((0.607978292, -1.296025135), (1.306953335, -1.296025135))
            add(Edge.make_bspline(
                [(1.306953335, -1.296025135), (1.316786669, -1.297048343), (1.336487341, -1.299098296), (1.364369456, -1.314540952), (1.387502528, -1.341248585), (1.407443488, -1.378367057), (1.42348129, -1.427311655), (1.431911749, -1.489804249), (1.43957322, -1.566161665), (1.43981592, -1.622316445), (1.439948587, -1.653012389)],
                knots=[0, 0, 0, 0, 0.567469369, 1.136901174, 1.79196917, 2.586107946, 3.56177909, 4.753767401, 6.225508585, 8, 8, 8, 8], degree=3))
        make_face()
    extrude(amount=-BOSS_EXTRUDE4_DEPTH)


solid = Compound([part.part, body_2.part])
